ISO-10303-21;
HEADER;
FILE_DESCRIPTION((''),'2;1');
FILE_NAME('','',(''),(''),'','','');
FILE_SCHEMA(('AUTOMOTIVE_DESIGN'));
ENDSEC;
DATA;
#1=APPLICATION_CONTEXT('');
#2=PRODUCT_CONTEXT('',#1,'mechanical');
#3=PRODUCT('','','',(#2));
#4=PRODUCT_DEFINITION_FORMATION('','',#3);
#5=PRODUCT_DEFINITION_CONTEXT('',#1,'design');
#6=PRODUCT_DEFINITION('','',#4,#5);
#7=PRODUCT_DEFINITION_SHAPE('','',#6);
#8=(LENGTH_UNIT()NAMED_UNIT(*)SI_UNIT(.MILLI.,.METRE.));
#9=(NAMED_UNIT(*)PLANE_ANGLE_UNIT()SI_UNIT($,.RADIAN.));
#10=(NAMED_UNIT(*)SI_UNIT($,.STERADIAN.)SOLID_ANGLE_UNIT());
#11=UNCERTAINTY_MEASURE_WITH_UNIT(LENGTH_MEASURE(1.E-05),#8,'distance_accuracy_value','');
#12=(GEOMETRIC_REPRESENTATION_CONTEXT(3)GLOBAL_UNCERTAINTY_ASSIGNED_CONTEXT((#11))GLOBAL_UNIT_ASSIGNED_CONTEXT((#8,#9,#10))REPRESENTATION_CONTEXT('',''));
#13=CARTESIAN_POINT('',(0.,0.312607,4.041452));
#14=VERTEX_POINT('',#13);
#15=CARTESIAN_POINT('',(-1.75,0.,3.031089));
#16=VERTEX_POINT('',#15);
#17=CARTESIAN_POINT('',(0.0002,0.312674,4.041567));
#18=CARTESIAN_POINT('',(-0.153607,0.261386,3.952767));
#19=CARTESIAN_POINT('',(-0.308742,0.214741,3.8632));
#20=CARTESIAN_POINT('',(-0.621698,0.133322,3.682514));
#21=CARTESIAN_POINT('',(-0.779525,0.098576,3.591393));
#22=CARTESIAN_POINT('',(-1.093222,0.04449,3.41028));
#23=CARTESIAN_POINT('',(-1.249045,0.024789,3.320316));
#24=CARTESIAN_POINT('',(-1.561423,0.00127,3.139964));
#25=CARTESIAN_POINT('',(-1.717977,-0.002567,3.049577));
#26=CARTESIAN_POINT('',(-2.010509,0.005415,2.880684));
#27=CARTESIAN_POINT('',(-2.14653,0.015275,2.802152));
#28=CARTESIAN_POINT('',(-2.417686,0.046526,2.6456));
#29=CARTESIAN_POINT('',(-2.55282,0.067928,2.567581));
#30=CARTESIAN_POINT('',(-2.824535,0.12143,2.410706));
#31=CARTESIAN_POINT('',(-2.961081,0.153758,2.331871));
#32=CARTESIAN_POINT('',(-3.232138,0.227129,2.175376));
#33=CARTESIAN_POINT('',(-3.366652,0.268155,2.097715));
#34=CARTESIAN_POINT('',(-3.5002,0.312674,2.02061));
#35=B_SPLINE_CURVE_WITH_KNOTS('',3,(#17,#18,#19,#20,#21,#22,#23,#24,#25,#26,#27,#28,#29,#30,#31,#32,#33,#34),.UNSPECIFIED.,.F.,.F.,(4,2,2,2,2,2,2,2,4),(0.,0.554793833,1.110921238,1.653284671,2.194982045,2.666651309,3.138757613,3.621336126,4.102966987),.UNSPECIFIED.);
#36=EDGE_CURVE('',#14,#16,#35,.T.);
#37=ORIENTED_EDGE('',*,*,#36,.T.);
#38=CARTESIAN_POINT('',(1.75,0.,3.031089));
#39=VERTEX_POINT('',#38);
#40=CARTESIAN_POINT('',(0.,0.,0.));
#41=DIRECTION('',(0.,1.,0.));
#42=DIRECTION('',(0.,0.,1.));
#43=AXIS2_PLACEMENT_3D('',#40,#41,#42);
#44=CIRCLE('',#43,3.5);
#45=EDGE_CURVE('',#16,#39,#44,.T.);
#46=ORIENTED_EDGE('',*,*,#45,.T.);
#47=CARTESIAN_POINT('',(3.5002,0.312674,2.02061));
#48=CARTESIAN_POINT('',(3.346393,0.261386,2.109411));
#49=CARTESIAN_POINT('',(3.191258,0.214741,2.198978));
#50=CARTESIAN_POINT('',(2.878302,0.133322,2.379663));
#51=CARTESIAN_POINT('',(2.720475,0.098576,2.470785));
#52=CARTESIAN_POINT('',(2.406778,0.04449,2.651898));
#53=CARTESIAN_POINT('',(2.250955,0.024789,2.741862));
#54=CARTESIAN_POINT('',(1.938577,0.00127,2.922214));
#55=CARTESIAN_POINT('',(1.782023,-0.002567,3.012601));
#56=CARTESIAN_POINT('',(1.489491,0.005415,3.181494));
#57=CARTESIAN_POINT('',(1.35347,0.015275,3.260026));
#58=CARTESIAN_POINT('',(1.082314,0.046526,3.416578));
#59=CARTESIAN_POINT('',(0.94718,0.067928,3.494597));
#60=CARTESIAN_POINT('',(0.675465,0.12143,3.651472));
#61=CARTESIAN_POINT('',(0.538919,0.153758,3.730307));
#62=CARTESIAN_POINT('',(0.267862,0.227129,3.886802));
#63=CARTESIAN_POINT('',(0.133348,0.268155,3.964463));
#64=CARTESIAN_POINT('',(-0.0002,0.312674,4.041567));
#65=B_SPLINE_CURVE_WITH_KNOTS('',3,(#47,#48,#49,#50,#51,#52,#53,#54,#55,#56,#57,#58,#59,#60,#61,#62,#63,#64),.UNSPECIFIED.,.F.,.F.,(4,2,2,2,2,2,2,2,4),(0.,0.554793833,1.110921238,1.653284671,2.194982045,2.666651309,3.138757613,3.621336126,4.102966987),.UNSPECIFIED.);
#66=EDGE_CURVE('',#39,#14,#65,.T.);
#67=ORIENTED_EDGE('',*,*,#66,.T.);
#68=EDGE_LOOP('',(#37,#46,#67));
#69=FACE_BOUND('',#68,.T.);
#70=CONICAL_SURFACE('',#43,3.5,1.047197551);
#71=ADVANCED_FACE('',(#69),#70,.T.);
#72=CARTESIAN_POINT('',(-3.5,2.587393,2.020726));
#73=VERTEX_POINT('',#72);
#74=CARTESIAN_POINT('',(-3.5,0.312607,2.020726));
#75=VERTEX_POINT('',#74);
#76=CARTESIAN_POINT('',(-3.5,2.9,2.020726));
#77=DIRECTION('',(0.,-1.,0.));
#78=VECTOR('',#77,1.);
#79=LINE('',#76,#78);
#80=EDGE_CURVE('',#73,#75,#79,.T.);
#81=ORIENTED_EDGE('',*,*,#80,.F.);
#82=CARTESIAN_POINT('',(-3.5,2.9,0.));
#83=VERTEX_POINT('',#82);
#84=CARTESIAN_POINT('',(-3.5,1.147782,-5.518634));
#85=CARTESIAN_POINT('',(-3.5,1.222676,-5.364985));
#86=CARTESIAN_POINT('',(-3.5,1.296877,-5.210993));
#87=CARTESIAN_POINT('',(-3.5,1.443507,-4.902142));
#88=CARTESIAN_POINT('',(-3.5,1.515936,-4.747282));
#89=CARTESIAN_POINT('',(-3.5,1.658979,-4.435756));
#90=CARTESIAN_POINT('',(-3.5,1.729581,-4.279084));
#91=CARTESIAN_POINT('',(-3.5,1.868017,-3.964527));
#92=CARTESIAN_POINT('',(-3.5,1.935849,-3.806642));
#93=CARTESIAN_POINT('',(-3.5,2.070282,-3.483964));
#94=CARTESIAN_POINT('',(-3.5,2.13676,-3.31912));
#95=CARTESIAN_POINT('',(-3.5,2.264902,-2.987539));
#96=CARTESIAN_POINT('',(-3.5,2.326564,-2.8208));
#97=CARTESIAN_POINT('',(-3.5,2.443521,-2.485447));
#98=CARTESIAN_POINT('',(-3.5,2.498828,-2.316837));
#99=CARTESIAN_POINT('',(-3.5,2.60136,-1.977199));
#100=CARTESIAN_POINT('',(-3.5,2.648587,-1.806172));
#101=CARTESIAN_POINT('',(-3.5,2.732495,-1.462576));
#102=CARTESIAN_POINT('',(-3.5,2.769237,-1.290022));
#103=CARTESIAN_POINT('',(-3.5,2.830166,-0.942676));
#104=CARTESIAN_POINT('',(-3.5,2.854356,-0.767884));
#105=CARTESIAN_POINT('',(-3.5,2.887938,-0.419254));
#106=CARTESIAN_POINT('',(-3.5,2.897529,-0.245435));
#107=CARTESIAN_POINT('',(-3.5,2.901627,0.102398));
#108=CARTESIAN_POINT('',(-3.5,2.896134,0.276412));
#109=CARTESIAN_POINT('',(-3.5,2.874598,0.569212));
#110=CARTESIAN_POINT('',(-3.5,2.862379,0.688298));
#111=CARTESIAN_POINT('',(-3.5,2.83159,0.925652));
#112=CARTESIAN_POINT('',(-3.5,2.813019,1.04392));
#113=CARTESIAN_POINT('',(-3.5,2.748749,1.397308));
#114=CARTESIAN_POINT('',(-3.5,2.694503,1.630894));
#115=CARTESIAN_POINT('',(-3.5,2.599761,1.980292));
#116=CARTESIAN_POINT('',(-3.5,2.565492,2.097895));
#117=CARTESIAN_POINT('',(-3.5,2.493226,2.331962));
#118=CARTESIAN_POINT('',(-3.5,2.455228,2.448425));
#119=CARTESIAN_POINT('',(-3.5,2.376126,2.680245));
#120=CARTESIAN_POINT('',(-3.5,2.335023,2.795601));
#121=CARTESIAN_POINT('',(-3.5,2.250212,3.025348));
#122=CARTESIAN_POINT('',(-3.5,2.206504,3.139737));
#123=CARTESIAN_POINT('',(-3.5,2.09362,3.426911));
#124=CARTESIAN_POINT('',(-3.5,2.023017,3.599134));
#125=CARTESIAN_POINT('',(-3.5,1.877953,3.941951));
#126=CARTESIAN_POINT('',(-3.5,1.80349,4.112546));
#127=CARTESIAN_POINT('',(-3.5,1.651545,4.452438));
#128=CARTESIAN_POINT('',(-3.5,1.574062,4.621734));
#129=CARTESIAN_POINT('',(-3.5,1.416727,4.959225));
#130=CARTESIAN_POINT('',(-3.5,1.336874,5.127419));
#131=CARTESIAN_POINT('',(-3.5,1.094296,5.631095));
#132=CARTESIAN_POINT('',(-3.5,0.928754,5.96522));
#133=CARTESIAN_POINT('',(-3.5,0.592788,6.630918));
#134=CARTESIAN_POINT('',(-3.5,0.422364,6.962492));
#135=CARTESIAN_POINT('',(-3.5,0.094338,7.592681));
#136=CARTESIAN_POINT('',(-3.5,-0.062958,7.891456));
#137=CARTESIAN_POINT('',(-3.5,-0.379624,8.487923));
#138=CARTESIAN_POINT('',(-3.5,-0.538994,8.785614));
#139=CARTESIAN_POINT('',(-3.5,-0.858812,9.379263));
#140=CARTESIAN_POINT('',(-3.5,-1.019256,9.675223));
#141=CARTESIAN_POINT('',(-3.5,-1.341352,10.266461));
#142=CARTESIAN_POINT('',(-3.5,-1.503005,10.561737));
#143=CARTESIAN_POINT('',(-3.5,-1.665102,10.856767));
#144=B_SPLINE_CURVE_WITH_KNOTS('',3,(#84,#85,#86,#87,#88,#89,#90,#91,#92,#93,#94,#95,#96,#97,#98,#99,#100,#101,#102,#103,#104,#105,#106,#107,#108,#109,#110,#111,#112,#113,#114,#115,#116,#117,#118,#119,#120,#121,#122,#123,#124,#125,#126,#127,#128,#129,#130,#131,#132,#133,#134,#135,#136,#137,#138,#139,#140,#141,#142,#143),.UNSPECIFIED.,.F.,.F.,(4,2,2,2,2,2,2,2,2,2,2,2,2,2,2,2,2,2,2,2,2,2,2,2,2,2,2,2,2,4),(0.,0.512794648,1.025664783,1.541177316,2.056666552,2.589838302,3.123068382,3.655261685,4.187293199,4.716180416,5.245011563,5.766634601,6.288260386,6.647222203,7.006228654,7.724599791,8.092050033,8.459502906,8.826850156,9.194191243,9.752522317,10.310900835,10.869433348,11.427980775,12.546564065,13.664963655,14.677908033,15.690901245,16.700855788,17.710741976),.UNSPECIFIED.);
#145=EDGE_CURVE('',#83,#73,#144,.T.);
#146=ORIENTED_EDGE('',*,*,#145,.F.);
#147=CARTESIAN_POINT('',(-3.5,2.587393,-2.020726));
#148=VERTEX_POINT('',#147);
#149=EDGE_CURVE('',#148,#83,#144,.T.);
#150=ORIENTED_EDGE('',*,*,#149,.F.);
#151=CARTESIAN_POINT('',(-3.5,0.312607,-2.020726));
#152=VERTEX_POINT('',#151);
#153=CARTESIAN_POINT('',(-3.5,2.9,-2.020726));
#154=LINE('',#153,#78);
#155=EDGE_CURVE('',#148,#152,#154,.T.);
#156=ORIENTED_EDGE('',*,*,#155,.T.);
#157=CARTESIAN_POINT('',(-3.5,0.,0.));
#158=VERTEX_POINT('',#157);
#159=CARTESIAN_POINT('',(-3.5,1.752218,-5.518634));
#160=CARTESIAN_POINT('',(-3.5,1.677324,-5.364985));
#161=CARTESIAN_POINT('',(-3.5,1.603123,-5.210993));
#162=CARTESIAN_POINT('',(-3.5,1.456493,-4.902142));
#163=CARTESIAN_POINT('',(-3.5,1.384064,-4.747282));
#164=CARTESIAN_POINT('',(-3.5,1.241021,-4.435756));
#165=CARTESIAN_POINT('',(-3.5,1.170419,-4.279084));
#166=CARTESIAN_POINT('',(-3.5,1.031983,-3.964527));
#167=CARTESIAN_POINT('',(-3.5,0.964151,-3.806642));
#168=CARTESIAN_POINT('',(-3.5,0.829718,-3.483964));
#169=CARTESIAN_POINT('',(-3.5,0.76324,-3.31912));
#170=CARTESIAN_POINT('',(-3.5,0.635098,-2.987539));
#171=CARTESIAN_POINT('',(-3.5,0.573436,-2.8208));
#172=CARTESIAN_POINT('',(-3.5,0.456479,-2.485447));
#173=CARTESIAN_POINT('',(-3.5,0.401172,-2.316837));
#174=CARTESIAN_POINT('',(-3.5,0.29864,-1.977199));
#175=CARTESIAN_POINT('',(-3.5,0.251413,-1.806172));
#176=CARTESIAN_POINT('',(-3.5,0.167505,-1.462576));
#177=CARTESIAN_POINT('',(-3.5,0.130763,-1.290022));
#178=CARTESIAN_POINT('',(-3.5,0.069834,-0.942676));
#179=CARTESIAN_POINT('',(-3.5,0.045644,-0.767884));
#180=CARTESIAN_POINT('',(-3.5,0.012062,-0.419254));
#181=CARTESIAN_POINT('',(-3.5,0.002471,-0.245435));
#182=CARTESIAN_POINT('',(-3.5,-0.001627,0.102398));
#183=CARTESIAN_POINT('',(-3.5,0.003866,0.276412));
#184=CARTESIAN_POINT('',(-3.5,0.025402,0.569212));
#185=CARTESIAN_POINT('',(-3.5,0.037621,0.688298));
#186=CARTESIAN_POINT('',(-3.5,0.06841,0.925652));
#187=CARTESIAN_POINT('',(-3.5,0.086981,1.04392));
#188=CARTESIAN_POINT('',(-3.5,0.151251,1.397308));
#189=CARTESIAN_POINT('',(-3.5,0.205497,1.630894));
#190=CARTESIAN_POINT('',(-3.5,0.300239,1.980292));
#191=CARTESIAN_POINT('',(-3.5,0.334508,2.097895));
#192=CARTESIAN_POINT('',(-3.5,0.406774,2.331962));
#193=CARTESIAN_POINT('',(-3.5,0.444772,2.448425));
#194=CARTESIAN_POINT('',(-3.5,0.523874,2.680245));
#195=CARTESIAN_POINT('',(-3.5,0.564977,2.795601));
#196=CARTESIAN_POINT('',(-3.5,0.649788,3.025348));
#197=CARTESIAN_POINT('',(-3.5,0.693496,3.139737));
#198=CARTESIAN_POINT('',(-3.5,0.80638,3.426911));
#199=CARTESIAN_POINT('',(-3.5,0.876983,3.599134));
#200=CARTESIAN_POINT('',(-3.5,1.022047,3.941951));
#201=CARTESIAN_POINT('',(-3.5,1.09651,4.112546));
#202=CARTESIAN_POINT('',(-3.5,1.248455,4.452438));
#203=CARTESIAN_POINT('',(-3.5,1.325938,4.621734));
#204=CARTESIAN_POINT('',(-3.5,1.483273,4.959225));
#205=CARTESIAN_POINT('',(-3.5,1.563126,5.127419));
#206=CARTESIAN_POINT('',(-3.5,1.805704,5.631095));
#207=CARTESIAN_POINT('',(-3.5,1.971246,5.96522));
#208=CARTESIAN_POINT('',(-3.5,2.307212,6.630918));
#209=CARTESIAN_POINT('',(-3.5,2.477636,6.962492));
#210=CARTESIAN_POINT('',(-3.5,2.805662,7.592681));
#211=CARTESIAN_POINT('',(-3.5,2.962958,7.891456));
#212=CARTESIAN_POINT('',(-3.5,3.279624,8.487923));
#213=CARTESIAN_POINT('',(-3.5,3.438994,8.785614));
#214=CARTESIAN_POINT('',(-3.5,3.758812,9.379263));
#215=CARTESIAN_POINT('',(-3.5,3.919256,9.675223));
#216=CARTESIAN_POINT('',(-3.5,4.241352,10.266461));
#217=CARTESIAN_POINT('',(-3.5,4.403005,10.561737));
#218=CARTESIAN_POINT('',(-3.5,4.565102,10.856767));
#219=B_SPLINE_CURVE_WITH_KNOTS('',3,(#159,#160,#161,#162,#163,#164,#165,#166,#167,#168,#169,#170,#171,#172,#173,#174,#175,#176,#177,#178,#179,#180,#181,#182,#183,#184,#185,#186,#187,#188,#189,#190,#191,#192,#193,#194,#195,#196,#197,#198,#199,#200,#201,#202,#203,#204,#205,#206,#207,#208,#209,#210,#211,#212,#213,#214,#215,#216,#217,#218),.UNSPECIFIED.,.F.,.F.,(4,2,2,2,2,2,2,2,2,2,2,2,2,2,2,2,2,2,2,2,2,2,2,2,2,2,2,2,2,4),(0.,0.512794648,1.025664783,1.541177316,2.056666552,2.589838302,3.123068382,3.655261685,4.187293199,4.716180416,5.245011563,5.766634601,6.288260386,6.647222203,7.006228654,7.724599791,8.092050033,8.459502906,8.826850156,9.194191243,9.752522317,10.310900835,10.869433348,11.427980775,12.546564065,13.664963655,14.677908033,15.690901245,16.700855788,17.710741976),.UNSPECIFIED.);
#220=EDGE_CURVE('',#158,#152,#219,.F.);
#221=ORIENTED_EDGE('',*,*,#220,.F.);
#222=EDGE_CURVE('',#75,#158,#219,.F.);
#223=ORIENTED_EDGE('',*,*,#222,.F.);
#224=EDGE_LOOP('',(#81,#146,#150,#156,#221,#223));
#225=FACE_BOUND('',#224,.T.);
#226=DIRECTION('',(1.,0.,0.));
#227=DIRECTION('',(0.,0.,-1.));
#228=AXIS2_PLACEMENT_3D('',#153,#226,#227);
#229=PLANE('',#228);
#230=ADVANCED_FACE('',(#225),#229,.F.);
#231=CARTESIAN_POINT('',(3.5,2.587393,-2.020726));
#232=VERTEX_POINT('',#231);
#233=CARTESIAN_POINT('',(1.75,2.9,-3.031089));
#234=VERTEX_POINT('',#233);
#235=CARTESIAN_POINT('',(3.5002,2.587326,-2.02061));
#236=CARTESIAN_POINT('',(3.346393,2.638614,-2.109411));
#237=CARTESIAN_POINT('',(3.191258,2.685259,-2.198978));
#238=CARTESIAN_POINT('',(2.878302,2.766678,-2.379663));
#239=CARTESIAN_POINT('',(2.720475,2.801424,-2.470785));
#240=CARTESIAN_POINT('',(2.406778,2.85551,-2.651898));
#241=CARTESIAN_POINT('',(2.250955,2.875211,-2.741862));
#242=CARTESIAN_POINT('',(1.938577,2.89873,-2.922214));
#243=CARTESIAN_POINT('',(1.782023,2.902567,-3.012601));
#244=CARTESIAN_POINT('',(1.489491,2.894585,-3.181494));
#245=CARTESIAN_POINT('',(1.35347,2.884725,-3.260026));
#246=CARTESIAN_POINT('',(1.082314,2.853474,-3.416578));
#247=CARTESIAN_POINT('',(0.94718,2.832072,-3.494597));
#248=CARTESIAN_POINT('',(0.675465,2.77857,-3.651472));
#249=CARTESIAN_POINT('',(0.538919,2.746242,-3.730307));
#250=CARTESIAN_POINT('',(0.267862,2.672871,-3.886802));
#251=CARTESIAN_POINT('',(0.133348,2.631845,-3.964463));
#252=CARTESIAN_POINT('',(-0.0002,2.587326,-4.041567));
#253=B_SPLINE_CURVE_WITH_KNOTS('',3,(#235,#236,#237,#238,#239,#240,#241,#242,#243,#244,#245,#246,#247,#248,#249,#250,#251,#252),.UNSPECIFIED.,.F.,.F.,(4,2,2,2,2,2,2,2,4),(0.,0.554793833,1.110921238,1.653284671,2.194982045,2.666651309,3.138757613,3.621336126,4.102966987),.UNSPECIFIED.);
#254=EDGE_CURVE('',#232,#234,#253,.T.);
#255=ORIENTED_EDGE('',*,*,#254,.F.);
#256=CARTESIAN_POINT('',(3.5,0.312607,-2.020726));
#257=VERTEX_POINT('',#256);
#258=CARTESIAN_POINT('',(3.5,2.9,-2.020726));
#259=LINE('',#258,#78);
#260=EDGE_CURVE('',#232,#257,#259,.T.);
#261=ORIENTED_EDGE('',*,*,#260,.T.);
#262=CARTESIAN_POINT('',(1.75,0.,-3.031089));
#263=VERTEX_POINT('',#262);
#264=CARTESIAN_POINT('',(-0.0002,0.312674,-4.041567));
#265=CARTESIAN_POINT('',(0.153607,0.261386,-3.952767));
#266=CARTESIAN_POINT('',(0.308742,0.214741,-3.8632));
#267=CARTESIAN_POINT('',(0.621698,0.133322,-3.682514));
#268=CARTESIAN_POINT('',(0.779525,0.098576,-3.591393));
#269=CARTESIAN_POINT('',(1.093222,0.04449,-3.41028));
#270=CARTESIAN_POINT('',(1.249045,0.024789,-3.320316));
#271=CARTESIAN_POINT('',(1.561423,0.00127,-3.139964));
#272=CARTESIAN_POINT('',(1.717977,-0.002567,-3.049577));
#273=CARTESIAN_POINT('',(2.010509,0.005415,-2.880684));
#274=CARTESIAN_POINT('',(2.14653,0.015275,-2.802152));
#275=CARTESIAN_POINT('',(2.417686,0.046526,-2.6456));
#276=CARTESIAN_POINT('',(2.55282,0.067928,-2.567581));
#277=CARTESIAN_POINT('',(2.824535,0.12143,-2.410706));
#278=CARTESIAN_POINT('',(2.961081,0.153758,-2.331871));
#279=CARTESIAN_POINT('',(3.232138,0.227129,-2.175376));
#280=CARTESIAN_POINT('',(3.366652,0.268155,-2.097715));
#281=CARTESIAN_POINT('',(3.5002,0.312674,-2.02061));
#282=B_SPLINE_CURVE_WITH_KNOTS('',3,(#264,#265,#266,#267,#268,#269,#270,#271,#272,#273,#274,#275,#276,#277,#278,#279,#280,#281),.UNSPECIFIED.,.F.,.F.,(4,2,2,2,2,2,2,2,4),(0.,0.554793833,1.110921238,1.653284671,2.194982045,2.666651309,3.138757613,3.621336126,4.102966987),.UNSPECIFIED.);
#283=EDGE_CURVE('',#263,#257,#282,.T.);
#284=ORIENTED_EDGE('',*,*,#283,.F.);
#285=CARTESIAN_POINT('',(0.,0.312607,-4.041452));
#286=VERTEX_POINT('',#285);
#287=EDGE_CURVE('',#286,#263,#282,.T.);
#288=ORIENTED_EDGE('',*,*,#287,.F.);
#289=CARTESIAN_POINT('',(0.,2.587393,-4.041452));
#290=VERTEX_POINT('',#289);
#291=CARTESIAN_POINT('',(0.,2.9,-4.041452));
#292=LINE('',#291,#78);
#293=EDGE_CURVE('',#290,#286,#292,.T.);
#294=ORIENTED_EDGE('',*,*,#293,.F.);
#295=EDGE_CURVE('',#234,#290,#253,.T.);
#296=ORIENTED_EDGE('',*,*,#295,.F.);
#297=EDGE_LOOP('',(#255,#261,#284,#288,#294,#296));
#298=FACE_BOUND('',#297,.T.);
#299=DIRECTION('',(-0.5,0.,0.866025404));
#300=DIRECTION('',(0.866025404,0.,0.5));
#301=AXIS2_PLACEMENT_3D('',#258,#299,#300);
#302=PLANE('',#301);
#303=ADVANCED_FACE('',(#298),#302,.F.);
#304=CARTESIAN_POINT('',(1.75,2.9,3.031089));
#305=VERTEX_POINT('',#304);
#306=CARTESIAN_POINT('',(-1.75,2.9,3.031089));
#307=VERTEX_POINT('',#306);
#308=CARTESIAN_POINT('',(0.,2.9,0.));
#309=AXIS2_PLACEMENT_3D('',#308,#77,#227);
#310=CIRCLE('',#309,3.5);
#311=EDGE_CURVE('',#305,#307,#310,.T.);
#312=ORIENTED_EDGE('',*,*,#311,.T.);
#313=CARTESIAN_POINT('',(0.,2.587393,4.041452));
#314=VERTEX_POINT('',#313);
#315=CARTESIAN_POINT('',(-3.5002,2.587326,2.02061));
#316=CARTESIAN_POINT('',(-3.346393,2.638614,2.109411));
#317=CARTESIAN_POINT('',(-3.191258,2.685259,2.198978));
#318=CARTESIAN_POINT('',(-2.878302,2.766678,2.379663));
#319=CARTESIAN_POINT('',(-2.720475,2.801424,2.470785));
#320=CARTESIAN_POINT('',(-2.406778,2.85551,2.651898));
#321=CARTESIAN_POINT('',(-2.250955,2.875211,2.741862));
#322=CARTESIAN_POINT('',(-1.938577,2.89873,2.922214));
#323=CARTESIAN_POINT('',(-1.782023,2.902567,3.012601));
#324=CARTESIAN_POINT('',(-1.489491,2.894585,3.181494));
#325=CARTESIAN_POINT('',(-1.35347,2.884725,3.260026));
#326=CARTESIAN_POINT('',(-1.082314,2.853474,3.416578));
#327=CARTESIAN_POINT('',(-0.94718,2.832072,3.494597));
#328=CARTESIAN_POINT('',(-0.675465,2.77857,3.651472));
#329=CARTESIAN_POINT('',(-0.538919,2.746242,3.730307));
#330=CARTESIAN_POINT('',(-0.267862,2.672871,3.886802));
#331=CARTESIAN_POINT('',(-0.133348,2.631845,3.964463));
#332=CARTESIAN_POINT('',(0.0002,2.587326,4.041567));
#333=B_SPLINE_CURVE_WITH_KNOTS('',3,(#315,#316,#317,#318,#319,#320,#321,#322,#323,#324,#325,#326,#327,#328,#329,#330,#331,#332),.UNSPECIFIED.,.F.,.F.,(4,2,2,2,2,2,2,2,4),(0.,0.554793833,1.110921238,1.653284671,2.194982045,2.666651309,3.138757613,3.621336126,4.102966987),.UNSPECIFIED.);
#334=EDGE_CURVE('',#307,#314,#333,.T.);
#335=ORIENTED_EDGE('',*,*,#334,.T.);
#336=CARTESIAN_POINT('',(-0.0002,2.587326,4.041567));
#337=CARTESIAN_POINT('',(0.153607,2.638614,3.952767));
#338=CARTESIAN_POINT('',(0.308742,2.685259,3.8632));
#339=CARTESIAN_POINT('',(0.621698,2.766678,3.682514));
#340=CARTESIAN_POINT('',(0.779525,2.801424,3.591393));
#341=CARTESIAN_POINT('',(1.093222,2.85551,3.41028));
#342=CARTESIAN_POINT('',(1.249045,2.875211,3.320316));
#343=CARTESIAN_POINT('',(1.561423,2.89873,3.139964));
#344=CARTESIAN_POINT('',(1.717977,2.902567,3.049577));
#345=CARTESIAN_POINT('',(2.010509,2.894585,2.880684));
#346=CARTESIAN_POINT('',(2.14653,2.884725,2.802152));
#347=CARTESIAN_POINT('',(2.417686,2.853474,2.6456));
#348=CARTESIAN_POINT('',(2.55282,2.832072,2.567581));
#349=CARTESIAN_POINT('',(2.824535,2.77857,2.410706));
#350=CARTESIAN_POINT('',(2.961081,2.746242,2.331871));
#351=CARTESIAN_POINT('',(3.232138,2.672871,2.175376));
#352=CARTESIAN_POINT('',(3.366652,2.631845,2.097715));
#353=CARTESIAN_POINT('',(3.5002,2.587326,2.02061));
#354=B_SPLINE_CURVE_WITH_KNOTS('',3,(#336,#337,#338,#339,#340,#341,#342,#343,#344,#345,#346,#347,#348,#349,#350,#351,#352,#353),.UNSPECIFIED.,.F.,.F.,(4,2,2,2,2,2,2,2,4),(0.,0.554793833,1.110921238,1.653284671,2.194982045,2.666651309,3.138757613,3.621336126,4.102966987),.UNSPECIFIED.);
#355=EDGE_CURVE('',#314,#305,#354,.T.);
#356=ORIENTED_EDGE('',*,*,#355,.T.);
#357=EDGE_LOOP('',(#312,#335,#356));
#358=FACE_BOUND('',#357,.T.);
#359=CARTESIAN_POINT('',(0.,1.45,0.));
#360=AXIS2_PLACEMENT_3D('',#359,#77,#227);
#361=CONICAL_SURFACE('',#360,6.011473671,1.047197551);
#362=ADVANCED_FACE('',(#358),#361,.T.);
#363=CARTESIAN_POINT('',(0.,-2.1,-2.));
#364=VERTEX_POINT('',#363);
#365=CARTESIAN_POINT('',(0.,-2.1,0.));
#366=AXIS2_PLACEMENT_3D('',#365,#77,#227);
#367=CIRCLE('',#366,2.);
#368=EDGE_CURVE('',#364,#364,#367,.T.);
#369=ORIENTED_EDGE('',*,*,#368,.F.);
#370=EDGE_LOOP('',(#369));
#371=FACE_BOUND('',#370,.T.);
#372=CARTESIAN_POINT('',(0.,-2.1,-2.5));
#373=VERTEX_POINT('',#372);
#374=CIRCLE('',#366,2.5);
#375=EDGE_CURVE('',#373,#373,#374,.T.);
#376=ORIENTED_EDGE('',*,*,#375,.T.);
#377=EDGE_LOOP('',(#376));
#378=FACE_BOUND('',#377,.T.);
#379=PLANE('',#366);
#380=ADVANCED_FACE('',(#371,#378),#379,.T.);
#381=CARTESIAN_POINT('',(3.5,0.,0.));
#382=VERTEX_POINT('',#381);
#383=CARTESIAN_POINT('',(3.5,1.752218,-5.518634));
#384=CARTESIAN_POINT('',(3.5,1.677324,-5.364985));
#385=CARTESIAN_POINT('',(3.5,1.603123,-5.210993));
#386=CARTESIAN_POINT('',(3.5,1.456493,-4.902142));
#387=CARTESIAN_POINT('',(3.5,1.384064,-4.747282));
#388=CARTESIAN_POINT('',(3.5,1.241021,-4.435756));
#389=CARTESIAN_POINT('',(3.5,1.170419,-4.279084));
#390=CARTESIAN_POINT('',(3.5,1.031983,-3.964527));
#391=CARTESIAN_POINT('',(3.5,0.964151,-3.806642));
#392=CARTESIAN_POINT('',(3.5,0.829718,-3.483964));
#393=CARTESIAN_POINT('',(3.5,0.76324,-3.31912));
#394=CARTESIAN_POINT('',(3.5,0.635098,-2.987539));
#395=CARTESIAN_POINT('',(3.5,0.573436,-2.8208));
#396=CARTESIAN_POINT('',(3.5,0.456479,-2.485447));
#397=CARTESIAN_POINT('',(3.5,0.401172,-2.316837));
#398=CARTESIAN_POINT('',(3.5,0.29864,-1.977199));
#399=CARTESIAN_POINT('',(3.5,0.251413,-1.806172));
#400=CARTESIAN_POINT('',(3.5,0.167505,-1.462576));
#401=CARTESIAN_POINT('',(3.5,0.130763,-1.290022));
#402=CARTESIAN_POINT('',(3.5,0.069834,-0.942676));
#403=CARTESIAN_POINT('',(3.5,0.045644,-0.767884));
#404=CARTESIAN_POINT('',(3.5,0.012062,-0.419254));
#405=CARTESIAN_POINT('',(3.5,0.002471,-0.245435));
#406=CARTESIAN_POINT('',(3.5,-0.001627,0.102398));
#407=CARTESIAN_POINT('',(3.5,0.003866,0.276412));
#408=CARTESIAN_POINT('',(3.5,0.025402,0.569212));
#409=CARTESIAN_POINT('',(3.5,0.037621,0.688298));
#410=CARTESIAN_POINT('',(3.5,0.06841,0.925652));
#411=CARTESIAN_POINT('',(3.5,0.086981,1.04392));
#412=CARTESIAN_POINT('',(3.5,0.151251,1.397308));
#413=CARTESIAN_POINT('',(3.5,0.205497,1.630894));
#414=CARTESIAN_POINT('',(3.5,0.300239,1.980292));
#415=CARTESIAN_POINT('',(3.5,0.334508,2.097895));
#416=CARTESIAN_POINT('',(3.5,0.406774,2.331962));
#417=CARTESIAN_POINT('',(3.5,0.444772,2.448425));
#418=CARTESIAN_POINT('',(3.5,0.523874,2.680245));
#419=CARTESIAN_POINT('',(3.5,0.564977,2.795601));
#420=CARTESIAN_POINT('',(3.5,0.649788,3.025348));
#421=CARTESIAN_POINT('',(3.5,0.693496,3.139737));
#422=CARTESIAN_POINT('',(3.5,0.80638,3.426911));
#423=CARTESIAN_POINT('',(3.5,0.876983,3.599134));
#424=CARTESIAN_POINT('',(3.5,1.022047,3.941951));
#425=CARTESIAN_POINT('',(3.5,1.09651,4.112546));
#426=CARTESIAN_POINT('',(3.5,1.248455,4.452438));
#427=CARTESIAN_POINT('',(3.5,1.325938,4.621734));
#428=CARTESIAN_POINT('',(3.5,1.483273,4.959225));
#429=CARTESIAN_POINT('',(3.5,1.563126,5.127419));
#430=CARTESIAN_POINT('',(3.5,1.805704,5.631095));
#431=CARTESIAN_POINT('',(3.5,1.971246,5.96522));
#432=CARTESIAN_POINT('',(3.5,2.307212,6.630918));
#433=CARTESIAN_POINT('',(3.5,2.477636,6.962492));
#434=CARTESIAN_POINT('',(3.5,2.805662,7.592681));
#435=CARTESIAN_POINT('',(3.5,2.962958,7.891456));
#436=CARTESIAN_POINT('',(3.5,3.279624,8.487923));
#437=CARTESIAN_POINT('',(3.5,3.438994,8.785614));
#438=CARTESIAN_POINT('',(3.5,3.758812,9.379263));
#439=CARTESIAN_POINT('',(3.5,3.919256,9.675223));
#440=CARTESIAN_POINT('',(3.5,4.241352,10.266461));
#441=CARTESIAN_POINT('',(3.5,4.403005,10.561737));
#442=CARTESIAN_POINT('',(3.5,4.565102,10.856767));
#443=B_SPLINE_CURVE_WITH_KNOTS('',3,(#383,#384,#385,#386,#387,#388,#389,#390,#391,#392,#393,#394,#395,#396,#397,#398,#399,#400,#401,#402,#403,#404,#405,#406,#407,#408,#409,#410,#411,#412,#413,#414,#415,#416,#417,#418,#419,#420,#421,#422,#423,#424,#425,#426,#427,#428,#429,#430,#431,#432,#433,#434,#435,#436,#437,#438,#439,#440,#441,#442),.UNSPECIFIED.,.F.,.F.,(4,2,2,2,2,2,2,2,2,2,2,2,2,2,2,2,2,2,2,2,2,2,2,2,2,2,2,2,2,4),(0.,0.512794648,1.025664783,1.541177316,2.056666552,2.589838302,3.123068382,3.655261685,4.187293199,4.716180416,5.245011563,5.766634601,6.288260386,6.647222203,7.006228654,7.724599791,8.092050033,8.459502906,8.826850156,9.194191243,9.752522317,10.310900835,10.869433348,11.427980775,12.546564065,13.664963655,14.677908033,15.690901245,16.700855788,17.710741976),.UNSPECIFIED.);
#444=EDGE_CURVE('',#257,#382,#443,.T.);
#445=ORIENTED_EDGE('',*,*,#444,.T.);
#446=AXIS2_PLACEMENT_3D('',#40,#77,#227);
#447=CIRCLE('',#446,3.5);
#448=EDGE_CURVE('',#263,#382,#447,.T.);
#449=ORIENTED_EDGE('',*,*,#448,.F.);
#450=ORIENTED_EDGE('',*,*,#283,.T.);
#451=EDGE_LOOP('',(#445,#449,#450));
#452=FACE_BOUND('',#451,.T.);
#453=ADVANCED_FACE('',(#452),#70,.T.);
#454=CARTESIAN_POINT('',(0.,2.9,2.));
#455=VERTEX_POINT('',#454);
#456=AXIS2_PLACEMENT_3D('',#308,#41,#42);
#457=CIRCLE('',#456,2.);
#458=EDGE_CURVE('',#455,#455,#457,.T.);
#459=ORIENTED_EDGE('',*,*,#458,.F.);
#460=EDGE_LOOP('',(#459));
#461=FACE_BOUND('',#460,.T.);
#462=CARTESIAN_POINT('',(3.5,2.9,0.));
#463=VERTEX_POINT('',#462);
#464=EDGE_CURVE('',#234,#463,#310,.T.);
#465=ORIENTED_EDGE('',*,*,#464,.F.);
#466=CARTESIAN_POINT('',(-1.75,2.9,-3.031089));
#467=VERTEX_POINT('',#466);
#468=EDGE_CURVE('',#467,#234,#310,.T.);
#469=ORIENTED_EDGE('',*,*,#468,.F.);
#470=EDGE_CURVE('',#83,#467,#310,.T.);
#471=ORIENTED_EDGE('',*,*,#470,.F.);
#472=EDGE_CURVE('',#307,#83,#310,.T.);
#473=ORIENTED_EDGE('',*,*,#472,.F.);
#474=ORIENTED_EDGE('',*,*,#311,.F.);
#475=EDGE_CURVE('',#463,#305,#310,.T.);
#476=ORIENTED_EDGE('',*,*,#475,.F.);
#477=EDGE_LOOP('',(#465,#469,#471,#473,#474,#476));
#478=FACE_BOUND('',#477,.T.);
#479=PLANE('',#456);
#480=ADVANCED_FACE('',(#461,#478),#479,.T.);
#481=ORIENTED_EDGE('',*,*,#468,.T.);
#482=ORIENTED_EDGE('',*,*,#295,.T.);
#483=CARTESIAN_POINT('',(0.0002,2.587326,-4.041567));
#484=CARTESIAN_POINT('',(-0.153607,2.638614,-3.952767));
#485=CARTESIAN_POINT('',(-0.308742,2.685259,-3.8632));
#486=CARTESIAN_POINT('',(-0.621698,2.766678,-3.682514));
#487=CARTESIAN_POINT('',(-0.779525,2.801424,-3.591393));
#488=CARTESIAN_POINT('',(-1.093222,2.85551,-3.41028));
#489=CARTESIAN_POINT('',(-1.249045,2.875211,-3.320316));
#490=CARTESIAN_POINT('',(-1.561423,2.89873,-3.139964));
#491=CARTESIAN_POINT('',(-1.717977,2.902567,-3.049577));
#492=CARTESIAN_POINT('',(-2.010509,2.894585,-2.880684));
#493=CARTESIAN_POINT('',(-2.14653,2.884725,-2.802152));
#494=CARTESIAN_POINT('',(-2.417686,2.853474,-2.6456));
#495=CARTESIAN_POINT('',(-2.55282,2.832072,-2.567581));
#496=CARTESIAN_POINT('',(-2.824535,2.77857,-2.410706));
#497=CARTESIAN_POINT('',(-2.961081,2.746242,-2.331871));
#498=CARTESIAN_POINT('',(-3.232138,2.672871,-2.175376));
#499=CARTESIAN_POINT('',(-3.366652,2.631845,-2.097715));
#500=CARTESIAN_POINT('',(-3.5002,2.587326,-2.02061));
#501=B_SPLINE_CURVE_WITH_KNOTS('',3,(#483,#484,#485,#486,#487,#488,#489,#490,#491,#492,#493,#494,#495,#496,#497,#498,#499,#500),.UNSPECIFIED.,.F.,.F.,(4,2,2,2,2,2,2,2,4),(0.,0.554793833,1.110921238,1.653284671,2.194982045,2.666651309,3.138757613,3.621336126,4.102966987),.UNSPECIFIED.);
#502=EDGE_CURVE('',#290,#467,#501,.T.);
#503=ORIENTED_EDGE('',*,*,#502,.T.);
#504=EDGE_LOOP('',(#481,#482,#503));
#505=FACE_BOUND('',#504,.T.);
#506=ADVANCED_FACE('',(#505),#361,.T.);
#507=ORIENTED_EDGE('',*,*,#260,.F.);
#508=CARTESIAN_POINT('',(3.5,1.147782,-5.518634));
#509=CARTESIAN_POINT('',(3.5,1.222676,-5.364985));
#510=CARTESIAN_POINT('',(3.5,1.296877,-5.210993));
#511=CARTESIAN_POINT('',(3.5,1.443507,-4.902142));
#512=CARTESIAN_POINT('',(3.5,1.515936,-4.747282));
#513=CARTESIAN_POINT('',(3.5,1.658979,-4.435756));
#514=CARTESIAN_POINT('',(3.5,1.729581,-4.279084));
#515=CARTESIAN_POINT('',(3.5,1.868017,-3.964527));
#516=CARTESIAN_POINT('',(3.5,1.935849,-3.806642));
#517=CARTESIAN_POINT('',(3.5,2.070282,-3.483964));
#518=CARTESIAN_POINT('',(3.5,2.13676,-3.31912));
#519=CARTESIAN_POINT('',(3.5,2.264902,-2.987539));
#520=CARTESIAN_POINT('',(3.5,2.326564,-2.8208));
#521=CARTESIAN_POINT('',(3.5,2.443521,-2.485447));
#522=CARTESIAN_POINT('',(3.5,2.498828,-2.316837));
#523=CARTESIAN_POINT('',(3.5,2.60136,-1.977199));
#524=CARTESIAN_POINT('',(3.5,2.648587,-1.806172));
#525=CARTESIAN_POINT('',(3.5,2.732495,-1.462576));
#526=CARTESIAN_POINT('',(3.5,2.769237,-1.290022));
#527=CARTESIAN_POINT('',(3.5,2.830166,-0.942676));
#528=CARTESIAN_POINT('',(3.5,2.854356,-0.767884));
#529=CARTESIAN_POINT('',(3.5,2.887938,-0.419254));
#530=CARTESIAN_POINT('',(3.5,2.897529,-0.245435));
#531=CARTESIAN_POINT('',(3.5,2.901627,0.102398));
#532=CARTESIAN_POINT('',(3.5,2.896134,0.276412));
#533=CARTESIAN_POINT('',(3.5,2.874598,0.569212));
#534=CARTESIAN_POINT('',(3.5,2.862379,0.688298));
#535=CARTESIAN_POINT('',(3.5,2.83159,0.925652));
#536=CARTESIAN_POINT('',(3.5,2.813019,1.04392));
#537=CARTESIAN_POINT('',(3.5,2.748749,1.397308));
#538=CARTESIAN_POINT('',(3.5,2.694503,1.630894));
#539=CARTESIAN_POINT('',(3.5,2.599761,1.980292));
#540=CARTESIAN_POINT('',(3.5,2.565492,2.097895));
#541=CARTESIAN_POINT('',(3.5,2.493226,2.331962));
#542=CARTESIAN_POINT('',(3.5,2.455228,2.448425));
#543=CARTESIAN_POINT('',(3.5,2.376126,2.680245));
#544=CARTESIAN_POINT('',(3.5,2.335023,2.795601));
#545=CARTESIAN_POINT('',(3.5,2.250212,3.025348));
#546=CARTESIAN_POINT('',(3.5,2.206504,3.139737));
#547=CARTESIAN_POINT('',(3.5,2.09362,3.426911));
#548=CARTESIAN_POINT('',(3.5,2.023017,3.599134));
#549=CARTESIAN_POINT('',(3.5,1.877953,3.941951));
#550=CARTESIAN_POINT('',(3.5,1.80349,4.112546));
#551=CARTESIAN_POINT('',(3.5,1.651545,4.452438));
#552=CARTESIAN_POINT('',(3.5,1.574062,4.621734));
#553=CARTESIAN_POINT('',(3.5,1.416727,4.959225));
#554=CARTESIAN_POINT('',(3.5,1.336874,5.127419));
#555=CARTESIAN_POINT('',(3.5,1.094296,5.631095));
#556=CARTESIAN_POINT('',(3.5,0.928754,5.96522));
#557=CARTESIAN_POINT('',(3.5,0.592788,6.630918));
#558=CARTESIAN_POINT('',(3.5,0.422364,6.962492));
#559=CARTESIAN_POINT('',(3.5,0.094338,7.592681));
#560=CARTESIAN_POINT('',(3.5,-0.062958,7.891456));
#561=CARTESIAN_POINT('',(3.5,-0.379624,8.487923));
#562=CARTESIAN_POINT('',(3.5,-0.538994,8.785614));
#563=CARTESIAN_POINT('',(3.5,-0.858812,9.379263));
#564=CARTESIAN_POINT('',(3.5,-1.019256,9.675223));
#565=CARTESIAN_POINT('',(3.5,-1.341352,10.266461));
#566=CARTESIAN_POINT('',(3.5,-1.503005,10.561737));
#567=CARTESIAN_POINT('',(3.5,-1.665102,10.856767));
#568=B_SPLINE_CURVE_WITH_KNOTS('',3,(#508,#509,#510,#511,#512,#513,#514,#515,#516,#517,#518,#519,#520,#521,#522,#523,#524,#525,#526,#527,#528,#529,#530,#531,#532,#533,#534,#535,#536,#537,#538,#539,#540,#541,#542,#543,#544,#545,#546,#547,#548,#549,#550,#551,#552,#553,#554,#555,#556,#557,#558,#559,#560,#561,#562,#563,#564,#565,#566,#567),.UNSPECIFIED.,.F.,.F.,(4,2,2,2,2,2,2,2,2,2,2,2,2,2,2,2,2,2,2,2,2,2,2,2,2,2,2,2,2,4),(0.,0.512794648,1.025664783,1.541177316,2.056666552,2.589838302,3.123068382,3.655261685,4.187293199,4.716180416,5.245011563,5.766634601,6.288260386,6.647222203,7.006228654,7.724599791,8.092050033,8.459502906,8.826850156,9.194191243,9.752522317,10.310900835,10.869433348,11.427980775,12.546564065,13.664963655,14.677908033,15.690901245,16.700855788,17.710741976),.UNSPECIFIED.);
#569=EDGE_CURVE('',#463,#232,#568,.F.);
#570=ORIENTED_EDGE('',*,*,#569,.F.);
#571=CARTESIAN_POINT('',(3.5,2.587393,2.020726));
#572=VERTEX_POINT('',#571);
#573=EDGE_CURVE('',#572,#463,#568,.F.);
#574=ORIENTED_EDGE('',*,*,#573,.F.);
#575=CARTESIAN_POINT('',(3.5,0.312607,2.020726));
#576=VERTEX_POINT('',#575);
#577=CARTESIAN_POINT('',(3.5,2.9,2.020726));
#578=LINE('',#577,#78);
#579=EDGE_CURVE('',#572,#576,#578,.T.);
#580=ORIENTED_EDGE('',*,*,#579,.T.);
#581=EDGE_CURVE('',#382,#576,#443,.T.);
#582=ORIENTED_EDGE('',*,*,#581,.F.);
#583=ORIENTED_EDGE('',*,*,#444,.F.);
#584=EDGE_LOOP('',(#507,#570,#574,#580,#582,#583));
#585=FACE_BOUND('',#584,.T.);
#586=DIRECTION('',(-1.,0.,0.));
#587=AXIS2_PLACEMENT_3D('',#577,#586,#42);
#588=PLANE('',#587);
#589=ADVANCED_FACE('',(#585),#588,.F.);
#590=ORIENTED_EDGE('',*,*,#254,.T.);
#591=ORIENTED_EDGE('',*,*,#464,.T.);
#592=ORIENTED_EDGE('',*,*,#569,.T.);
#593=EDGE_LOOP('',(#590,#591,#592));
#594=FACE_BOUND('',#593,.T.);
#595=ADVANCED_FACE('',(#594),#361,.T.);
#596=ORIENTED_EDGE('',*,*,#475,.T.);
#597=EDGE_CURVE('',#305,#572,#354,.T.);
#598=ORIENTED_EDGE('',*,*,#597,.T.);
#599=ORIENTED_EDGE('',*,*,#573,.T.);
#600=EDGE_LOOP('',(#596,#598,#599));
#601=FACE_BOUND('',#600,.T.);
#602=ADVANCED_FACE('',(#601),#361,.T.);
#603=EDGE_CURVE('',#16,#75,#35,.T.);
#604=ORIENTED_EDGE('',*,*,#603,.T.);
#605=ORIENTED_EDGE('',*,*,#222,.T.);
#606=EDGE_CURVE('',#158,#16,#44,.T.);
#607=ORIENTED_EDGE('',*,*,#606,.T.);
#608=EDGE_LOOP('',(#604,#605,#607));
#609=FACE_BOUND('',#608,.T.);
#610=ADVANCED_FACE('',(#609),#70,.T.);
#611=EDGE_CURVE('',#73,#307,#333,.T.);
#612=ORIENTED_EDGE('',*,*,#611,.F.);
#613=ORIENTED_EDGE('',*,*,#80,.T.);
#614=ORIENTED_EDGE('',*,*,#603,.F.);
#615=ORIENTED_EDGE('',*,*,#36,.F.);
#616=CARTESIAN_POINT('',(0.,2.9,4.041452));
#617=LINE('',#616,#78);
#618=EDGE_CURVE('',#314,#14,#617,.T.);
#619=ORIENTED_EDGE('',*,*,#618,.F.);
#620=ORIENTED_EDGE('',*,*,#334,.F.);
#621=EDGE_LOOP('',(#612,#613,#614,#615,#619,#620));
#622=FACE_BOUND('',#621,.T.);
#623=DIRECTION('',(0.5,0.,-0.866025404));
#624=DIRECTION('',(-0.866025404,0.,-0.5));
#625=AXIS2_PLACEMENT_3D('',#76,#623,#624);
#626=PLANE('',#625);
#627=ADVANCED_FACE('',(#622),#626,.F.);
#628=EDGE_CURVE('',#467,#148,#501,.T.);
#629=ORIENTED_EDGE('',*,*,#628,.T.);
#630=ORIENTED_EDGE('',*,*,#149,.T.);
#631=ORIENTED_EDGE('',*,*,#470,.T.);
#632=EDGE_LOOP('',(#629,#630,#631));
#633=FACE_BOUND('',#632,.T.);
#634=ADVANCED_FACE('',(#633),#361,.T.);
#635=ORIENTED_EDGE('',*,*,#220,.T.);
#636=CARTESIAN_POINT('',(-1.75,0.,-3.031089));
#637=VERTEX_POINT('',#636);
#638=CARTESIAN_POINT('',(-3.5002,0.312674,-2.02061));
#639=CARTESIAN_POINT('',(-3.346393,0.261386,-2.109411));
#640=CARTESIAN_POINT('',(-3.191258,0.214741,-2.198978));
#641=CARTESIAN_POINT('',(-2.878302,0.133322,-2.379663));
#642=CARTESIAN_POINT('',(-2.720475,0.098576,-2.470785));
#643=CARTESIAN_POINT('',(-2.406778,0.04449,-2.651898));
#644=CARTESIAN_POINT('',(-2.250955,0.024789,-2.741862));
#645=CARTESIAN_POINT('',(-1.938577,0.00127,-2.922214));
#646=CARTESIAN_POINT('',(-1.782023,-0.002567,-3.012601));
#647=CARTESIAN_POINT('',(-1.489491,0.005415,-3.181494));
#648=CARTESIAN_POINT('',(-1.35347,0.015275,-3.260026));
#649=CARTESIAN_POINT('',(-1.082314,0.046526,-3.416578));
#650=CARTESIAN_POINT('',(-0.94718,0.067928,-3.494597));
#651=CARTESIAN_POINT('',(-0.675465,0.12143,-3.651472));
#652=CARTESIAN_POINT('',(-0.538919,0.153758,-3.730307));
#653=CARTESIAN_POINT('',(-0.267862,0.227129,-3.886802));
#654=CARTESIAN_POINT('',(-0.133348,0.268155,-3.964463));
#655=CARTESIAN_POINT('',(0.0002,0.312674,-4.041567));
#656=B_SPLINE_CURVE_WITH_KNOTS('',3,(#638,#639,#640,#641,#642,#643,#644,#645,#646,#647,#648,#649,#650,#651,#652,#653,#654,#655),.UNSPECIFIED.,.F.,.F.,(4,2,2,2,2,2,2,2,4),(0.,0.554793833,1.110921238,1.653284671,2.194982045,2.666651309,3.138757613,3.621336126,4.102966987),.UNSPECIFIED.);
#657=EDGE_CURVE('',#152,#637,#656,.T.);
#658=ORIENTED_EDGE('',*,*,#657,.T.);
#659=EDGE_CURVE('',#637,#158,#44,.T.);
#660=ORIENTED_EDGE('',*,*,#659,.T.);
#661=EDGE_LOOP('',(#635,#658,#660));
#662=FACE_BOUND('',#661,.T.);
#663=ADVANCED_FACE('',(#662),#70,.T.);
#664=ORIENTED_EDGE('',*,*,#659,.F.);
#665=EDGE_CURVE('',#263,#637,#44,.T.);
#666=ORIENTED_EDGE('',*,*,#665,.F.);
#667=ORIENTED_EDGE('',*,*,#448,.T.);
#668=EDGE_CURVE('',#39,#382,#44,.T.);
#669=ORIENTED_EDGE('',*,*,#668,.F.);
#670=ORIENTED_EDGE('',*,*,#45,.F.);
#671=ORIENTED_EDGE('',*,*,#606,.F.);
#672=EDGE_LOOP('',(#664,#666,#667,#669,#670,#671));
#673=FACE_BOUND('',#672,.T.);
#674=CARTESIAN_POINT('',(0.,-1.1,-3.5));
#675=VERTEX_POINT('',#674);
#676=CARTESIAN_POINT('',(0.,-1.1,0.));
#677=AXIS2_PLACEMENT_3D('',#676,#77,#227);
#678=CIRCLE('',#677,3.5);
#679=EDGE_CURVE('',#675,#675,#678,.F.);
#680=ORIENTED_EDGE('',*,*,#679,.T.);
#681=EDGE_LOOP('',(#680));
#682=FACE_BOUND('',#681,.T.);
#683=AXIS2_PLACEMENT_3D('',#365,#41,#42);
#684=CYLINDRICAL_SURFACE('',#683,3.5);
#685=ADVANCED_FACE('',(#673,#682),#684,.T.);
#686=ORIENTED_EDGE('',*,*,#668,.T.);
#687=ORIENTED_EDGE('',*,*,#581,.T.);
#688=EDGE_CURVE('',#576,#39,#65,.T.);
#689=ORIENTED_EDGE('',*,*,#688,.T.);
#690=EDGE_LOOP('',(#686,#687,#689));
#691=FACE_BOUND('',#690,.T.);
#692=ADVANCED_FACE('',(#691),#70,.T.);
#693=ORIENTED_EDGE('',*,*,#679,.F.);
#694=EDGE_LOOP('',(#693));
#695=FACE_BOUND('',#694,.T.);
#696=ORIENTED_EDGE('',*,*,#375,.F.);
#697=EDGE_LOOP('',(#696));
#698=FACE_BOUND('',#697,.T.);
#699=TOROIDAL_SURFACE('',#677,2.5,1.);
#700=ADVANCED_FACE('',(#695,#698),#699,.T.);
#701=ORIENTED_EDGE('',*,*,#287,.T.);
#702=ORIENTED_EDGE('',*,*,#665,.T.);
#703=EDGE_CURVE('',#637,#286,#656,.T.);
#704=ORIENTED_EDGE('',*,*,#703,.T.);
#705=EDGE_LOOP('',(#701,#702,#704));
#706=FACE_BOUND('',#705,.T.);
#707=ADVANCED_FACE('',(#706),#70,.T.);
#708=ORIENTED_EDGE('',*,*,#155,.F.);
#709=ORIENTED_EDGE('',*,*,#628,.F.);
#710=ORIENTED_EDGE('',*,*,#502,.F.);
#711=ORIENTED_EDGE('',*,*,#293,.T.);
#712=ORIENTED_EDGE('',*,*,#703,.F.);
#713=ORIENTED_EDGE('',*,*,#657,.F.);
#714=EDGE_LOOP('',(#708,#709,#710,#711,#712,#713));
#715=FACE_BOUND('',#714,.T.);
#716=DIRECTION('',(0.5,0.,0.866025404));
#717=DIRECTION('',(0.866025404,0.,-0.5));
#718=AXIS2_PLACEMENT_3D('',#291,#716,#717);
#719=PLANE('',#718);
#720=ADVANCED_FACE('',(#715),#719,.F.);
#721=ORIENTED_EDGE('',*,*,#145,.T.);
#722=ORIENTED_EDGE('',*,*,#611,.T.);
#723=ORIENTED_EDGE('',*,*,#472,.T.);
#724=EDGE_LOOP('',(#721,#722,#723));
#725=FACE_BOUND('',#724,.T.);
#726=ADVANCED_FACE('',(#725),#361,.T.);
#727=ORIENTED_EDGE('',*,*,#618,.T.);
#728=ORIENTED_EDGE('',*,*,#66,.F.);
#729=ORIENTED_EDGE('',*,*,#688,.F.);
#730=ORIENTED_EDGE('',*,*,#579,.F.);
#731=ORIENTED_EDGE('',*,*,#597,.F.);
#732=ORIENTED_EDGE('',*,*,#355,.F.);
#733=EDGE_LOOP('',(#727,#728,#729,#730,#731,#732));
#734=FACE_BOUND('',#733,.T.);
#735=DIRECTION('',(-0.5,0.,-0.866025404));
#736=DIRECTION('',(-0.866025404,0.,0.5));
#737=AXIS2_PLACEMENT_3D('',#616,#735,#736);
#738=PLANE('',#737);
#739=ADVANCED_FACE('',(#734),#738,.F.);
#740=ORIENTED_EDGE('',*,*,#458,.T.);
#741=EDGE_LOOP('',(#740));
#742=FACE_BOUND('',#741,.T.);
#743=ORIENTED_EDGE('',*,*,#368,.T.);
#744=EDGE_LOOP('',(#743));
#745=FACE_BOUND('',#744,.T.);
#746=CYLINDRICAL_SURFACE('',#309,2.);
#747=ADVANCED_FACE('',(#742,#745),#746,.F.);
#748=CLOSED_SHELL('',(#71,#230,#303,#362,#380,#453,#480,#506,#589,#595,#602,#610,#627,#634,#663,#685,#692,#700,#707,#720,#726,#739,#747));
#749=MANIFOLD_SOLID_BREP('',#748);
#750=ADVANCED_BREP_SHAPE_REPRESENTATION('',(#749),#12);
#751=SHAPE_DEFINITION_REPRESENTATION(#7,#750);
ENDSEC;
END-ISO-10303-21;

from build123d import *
from build123d.topology import SkipClean

# Parameters (mm, degrees)
SKETCH_1_R      = 2
EXTRUDE_2_DEPTH = 2.9
EXTRUDE_START   = 2.1
SKETCH_3_R      = 3.5
SKETCH_3_R_2    = 2
EXTRUDE_3_DEPTH = 2.1
FILLET_1_R      = 1


with BuildPart() as part:
    # 草图1 → 凸台-拉伸2 (new body)
    with BuildSketch(Plane(origin=(0, 0, 0), x_dir=(1, 0, 0), z_dir=(0, 1, 0))):
        Polygon((3.5, 2.020725942), (0, 4.041451884), (-3.5, 2.020725942), (-3.5, -2.020725942), (0, -4.041451884), (3.5, -2.020725942), align=None)
        with Locations(Location((0, 0, 0), (0, 0, 270))):
            Circle(SKETCH_1_R, mode=Mode.SUBTRACT)
    extrude(amount=EXTRUDE_2_DEPTH)

    # 草图2 → 切除-旋转1 (revolve, cut)
    with BuildSketch(Plane.XY):
        Polygon((6.011473671, 1.45), (3.5, 2.9), (6.011473671, 2.9), align=None)
        Polygon((3.5, 0), (6.011473671, 1.45), (6.011473671, 0), align=None)
    revolve(axis=Axis((0, 1.981363764, 0), (0, 1, 0)), mode=Mode.SUBTRACT)

    # 草图3 → 凸台-拉伸3 (add)
    with SkipClean():  # the faces are left unmerged after this step: merging them gives an invalid solid
        with BuildSketch(Plane.XZ.offset(EXTRUDE_START)):
            with Locations(Location((0, 0, 0), (0, 0, 60))):
                Circle(SKETCH_3_R)
            with Locations(Location((0, 0, 0), (0, 0, 270))):
                Circle(SKETCH_3_R_2, mode=Mode.SUBTRACT)
        extrude(amount=-EXTRUDE_3_DEPTH)

    # 圆角1
    fillet_1_edges = [part.edges().sort_by_distance(p)[0] for p in [
        (-1.75, -2.1, -3.031088913),
    ]]
    fillet(fillet_1_edges, radius=FILLET_1_R)


solid = part.part
